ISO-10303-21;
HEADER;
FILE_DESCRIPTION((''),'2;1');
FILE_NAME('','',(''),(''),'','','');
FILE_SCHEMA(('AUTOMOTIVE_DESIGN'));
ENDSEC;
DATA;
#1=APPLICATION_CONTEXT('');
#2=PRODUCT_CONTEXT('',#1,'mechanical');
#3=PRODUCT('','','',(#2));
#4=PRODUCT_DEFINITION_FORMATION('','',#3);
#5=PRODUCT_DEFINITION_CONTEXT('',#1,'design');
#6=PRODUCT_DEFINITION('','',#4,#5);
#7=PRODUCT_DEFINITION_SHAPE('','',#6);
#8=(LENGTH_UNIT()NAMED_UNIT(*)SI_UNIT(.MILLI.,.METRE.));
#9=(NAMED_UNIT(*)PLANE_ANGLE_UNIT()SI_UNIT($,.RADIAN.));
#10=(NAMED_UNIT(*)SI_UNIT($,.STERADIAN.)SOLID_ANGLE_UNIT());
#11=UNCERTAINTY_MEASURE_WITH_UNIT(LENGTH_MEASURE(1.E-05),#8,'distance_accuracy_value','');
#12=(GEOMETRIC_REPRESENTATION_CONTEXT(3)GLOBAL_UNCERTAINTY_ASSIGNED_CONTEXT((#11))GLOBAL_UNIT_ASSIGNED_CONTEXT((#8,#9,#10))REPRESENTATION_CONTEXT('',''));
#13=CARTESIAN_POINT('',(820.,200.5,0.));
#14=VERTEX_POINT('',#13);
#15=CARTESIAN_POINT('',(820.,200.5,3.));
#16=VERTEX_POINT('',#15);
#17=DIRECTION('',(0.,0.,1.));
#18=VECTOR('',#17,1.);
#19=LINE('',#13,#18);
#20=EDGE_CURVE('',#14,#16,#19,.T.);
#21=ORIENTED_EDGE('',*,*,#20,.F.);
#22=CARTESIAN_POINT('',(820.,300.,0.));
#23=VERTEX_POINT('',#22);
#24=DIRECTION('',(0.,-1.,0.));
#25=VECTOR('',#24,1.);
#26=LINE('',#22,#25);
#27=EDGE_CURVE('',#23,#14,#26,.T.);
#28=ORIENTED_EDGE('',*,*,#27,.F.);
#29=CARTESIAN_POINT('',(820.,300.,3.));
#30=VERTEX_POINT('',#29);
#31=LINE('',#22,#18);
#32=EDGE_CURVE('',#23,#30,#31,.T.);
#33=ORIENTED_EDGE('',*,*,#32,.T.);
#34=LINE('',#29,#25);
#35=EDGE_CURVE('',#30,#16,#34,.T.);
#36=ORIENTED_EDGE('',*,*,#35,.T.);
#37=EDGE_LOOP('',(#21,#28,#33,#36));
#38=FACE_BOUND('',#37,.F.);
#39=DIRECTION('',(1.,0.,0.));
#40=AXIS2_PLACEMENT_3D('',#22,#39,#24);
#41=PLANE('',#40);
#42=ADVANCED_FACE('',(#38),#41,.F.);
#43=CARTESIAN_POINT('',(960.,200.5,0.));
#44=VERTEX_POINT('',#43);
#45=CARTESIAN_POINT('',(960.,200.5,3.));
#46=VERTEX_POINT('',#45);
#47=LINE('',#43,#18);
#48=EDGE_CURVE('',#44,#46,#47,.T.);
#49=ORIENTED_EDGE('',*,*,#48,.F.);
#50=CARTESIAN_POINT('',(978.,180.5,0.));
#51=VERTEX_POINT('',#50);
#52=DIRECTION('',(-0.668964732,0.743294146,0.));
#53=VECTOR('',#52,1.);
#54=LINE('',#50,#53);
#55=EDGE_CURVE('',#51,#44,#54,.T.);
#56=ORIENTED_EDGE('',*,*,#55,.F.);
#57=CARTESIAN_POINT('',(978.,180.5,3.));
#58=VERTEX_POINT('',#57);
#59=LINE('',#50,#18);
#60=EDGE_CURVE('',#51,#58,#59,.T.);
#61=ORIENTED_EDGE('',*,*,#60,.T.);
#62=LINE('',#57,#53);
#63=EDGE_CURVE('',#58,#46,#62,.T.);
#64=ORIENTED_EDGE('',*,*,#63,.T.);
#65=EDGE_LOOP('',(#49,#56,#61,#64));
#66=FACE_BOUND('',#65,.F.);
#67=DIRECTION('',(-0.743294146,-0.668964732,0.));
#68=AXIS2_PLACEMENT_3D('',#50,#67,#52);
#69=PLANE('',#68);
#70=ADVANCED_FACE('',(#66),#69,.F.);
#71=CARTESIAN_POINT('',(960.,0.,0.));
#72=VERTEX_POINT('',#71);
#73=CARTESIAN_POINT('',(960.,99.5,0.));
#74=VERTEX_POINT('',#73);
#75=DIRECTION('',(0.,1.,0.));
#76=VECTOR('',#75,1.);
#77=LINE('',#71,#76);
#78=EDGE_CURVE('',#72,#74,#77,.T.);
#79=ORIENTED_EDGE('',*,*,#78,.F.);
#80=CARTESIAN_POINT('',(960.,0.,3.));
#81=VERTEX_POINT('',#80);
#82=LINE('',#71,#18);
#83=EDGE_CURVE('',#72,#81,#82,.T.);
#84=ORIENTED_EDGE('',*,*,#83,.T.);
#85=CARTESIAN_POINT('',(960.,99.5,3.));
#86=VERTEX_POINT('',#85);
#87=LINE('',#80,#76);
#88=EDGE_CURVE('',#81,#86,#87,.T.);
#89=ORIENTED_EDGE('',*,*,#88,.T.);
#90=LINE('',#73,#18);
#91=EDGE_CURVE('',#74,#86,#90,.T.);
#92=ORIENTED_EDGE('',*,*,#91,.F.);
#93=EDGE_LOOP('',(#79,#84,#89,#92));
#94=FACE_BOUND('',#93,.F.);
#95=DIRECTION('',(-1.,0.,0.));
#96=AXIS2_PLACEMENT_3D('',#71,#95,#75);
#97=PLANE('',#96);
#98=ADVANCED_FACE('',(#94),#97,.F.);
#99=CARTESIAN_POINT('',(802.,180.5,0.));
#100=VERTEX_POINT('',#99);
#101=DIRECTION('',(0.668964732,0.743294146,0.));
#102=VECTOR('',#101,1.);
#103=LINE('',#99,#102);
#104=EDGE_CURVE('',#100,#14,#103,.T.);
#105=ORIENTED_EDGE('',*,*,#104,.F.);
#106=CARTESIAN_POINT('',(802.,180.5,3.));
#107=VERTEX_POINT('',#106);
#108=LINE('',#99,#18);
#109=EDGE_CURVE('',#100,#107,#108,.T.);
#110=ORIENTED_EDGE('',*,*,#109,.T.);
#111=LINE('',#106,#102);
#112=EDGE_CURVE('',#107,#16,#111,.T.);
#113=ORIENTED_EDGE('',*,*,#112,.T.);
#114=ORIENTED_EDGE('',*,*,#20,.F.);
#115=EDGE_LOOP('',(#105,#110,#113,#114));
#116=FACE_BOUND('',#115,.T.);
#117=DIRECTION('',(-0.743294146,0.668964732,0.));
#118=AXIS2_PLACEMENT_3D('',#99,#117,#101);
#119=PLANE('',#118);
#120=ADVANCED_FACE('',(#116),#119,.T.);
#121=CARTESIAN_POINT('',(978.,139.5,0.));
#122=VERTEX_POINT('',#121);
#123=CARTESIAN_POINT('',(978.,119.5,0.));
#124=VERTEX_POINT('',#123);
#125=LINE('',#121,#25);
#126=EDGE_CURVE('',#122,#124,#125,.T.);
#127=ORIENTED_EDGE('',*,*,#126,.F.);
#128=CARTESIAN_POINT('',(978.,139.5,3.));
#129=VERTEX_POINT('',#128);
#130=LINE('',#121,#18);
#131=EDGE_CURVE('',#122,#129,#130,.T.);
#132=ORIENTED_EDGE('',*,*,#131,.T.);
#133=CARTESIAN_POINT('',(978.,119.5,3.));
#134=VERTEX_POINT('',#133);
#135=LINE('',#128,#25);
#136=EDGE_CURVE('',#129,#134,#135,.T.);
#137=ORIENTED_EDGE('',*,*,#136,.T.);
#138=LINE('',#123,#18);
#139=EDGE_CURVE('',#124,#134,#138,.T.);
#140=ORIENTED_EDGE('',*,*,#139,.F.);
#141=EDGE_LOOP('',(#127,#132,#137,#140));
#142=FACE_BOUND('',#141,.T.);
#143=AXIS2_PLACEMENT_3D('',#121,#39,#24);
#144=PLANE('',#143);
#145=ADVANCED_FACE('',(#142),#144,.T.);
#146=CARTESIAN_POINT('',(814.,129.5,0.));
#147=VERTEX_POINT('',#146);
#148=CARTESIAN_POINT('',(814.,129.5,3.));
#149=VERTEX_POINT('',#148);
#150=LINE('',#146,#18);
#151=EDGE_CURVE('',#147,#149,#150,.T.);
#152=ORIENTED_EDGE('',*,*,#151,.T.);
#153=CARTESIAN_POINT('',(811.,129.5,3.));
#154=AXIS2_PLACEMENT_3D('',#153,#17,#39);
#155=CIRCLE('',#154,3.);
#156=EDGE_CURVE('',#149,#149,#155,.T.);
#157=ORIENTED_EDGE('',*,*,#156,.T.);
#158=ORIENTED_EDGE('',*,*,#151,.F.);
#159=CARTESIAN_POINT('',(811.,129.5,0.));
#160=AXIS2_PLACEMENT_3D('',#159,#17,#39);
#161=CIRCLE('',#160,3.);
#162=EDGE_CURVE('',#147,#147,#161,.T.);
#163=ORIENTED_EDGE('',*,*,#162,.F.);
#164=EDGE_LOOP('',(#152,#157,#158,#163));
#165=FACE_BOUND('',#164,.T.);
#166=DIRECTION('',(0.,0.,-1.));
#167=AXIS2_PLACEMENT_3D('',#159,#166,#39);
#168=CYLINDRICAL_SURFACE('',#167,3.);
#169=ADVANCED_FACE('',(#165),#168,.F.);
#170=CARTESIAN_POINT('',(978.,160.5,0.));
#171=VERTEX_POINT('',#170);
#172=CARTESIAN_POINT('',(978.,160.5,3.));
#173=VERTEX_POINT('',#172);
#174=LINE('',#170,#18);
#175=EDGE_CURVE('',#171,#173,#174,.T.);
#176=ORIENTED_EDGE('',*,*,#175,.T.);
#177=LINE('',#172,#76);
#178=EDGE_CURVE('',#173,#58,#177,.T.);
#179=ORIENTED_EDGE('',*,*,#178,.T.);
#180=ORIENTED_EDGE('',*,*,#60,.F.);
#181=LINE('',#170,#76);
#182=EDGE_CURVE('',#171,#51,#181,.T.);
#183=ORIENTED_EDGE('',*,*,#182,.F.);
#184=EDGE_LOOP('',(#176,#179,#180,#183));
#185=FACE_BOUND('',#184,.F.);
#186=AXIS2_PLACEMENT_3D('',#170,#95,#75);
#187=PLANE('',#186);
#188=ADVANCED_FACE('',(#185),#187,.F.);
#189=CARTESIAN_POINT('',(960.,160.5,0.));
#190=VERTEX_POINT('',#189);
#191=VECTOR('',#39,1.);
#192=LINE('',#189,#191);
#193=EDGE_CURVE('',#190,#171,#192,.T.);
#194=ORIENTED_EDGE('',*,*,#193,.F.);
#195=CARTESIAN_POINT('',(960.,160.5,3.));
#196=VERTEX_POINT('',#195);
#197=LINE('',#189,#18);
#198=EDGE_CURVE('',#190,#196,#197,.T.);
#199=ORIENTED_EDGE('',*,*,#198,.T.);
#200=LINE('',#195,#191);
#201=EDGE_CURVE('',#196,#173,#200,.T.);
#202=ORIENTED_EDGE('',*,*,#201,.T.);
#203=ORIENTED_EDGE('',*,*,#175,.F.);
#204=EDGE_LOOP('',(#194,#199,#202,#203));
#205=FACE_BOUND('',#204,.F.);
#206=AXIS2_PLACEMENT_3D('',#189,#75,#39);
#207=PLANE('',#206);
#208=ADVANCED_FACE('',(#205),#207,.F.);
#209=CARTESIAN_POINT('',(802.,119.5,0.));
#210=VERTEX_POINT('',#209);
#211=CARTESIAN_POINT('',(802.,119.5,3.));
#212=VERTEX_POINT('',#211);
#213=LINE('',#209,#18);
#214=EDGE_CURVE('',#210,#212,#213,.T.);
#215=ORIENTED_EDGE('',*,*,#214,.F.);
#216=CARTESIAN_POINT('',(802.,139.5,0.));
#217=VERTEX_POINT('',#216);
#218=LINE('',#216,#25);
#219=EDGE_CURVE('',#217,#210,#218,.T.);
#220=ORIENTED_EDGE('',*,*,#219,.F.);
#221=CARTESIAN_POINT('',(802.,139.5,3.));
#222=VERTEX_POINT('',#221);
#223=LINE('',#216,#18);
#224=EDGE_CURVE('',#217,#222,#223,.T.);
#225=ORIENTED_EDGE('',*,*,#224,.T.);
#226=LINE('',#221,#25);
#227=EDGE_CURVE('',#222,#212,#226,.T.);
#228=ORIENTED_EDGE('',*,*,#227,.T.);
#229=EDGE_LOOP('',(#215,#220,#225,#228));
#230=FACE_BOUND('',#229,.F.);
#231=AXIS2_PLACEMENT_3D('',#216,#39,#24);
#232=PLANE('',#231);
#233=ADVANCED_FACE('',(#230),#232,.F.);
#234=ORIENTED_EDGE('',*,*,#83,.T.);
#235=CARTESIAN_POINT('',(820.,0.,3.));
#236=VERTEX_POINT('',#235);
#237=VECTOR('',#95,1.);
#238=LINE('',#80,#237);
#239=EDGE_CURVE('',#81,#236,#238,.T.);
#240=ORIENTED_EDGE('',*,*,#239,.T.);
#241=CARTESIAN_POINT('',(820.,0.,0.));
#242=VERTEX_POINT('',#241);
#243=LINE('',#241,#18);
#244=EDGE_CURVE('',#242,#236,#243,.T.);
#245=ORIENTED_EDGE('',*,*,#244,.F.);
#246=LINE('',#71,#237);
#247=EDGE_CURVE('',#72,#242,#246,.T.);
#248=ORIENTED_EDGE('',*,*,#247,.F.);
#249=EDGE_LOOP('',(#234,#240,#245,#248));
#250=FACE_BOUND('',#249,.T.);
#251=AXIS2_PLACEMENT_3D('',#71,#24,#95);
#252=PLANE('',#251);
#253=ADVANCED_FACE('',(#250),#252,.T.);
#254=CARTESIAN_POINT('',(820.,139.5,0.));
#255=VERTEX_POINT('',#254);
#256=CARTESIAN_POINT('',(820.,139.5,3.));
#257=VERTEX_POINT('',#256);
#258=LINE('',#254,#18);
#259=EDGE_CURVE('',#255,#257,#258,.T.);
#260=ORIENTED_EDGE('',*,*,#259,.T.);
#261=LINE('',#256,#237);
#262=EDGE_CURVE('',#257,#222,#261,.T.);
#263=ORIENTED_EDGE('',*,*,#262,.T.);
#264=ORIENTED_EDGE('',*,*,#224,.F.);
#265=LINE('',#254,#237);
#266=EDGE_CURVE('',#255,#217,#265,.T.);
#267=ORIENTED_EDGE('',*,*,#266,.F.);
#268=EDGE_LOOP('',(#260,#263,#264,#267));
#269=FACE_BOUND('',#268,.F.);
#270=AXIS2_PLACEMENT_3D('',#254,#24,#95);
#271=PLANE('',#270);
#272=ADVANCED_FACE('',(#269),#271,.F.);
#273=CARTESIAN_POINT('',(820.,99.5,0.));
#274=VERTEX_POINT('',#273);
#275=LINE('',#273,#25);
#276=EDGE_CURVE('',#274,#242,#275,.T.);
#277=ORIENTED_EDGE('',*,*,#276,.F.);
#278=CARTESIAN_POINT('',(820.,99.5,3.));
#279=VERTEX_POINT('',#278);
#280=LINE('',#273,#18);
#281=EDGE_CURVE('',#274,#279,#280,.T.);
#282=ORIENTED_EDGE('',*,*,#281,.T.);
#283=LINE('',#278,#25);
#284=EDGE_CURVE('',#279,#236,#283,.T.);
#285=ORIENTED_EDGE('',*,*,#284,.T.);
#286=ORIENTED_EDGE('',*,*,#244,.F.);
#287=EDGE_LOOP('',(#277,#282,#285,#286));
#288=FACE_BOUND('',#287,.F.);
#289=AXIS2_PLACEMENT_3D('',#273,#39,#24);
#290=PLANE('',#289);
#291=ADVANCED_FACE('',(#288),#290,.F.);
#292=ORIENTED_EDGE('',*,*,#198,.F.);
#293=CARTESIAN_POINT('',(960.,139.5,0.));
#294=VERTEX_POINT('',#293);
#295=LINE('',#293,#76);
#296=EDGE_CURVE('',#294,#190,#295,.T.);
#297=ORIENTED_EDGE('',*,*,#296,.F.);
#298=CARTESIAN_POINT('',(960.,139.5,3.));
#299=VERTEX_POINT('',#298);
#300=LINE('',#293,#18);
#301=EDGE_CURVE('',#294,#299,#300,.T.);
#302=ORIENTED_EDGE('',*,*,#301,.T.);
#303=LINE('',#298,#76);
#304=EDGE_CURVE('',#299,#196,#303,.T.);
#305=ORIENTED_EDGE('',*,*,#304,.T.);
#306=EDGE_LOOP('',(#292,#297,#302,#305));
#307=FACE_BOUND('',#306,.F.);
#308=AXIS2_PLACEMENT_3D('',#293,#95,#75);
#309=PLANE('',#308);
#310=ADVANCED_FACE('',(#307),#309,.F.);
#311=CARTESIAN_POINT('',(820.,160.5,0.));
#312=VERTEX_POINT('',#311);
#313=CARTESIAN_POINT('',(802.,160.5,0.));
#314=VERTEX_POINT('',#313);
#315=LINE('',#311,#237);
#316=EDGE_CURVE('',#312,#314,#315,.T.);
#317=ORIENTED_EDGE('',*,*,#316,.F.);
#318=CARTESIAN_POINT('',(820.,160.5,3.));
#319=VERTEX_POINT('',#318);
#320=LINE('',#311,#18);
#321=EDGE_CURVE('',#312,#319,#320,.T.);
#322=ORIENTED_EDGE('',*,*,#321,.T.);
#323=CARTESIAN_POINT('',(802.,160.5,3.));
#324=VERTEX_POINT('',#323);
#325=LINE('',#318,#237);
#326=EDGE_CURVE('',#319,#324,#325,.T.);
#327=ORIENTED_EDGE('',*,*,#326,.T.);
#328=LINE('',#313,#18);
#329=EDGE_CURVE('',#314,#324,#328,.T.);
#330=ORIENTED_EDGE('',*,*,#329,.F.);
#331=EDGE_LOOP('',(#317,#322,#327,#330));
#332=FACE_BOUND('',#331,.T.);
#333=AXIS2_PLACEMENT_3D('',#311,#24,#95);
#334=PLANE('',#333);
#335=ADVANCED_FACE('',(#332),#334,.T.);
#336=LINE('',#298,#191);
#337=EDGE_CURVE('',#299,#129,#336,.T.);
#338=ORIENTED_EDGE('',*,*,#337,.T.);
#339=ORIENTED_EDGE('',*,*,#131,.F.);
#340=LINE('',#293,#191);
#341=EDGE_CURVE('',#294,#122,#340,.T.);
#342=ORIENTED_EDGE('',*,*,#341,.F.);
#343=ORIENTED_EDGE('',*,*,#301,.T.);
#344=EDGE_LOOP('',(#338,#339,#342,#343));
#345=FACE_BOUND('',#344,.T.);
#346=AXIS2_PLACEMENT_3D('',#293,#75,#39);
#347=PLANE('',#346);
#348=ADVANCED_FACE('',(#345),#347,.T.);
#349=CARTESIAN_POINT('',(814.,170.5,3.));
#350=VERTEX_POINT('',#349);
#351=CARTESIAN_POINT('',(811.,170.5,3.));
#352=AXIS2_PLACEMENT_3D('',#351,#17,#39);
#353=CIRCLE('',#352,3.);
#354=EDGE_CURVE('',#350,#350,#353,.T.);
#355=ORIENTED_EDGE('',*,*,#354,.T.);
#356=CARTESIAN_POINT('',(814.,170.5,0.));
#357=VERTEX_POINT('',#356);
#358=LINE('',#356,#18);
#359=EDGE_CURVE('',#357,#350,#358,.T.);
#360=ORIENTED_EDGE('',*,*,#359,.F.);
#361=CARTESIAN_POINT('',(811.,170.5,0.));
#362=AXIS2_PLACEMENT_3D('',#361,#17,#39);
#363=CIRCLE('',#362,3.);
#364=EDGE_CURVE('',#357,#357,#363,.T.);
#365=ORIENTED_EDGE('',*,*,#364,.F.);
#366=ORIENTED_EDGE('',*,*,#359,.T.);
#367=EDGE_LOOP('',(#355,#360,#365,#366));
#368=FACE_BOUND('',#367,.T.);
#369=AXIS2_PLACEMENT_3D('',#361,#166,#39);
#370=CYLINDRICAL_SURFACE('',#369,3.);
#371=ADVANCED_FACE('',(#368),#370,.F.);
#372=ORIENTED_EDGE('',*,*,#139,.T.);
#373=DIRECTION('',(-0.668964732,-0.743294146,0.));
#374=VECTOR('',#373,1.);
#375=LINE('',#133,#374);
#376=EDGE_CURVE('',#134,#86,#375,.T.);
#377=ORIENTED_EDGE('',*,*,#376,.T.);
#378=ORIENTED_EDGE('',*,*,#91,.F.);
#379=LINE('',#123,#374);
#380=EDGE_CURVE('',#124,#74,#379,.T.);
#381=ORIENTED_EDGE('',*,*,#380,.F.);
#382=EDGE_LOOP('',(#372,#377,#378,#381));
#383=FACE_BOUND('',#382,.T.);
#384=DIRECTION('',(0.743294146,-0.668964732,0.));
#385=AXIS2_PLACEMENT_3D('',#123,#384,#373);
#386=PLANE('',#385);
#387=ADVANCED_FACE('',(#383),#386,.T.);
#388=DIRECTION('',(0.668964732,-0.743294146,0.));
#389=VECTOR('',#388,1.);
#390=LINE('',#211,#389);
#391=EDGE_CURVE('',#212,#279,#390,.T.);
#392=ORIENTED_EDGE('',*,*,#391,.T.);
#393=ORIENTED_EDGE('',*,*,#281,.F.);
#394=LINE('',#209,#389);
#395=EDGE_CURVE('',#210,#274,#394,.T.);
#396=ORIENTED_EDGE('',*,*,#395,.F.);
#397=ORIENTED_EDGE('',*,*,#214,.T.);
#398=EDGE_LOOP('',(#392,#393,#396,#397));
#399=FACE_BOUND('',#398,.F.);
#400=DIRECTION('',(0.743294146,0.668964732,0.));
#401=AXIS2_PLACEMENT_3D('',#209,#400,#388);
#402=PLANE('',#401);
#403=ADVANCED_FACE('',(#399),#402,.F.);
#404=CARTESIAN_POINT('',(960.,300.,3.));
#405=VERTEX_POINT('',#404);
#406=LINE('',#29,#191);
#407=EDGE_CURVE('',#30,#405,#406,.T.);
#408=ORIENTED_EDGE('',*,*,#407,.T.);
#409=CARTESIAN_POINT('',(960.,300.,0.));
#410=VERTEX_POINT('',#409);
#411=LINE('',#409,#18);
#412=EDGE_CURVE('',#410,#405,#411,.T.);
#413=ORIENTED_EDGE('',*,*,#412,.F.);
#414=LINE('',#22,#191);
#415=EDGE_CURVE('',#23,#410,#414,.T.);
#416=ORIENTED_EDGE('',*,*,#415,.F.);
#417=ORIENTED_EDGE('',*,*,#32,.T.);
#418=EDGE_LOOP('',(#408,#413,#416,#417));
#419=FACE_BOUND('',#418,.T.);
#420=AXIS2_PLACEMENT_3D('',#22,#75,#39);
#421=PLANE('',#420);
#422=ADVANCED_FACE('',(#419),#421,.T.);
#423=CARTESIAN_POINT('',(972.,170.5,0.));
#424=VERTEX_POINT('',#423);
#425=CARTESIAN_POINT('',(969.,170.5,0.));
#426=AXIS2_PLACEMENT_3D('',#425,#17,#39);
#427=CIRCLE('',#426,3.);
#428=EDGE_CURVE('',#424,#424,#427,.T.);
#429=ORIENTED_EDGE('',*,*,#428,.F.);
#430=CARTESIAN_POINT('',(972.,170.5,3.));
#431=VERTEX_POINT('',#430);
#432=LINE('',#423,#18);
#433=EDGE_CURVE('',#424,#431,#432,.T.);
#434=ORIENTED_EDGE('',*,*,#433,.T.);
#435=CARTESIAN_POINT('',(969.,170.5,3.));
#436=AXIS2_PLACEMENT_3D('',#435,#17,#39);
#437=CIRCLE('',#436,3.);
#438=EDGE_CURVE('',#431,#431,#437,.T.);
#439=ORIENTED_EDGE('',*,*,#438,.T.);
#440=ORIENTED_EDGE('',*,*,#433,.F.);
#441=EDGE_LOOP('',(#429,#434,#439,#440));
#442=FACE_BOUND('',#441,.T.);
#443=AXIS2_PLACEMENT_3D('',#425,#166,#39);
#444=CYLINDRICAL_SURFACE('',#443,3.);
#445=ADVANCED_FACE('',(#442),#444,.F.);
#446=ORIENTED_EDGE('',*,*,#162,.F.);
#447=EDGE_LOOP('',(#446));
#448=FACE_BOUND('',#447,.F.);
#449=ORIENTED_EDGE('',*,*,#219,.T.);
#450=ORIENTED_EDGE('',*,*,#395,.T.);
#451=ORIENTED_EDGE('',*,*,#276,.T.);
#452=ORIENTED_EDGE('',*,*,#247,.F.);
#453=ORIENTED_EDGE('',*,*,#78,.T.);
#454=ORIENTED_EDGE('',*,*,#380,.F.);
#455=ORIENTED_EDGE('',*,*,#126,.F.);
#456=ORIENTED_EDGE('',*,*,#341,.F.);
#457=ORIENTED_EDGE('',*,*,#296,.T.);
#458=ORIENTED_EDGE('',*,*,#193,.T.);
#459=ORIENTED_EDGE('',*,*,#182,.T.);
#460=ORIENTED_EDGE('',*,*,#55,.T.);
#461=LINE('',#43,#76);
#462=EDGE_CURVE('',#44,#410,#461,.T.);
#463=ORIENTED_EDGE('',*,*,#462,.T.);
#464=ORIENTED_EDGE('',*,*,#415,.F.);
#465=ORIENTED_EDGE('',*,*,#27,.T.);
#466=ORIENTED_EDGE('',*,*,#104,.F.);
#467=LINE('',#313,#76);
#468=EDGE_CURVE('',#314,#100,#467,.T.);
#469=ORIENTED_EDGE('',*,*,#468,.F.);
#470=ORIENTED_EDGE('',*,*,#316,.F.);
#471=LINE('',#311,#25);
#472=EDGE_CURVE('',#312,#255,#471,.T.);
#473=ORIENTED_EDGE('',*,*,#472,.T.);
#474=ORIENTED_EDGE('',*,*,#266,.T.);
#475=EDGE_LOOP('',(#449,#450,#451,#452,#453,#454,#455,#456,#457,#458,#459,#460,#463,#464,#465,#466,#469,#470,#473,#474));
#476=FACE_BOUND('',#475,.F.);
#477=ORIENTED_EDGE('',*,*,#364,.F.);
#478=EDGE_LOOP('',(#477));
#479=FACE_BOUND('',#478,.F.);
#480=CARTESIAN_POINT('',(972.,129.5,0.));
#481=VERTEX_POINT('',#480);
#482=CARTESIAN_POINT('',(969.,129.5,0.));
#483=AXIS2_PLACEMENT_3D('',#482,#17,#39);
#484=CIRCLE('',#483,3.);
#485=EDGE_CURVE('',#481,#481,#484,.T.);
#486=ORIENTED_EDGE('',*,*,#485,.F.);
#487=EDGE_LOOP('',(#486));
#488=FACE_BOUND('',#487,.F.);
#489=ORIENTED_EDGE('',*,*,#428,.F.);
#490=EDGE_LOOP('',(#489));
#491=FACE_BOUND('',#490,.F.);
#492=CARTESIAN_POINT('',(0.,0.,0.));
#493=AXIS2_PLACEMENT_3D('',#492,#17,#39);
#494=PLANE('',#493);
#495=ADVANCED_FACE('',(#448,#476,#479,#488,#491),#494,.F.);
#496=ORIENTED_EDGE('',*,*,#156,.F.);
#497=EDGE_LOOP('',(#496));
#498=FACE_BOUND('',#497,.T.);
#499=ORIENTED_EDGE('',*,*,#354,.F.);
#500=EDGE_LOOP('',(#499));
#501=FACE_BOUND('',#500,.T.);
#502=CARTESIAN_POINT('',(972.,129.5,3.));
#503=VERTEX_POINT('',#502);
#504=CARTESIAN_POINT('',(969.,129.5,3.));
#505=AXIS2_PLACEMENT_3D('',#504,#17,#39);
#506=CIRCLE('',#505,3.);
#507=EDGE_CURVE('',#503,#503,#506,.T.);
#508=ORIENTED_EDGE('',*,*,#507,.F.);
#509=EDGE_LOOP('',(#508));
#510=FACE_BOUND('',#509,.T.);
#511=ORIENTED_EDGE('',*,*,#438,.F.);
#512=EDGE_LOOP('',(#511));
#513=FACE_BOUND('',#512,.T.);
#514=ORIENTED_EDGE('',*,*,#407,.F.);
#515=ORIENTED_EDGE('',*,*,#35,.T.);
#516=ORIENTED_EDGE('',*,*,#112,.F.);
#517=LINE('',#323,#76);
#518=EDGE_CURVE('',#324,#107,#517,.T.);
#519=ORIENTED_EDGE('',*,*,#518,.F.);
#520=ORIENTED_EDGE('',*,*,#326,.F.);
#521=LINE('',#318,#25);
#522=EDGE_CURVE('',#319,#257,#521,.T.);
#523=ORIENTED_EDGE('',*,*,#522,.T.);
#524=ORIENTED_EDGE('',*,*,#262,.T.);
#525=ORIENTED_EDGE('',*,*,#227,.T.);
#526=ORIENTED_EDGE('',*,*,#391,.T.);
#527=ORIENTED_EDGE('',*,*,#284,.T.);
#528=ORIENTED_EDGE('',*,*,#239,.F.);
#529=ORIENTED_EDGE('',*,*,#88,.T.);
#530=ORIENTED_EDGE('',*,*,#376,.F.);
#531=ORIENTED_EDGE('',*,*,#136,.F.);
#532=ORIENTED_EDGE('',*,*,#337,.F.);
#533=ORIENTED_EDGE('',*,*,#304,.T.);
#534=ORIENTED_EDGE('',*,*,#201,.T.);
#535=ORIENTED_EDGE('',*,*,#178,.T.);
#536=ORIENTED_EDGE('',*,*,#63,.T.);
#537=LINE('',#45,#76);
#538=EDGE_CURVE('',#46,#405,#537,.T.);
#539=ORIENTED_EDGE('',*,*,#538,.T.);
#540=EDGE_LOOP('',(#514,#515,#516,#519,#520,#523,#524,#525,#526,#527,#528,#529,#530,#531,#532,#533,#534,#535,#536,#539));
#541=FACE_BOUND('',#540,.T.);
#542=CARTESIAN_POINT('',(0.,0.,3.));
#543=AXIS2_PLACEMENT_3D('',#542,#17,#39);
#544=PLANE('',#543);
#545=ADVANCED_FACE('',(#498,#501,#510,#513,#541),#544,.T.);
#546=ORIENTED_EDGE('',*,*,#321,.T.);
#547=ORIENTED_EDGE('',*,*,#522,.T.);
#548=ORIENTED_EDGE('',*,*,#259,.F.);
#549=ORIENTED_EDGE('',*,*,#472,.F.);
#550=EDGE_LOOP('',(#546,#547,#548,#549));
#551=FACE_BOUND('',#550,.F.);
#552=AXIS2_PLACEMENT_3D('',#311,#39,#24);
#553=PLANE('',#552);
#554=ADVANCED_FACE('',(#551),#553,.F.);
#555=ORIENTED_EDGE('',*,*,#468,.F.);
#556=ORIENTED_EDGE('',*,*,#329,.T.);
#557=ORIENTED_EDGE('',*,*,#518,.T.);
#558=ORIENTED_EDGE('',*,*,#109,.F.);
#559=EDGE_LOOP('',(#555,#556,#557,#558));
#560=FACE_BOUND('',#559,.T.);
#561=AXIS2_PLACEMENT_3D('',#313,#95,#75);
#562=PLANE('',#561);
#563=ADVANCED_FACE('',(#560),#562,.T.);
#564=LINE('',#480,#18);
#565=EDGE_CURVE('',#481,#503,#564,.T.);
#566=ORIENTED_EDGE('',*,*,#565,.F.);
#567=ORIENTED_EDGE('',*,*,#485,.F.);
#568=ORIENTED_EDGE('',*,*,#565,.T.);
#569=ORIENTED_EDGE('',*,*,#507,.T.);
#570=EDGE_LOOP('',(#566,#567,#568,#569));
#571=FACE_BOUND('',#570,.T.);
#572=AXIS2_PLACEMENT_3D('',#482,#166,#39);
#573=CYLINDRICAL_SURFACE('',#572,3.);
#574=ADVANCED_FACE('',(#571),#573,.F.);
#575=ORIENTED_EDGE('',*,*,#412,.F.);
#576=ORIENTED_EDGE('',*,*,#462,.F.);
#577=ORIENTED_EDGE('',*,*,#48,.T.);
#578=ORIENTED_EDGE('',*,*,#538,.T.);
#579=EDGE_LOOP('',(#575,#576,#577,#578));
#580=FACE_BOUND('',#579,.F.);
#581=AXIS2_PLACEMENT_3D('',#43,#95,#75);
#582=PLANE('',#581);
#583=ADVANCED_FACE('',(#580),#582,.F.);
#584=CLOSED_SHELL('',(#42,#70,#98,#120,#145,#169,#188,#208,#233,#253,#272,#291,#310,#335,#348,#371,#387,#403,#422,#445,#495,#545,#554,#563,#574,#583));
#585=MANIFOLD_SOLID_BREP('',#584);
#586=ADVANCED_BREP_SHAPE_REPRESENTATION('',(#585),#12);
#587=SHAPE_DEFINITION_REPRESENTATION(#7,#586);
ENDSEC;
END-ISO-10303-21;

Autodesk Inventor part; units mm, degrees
ref_plane "YZ Plane" through (0, 0, 0) normal (1, 0, 0) x (0, 1, 0)
ref_plane "XZ Plane" through (0, 0, 0) normal (0, 1, 0) x (-1, 0, 0)
ref_plane "XY Plane" through (0, 0, 0) normal (0, 0, 1) x (1, 0, 0)
sketch "Sketch1" plane through (0, 0, 0) normal (0, 0, 1) x (1, 0, 0)
  line L0 (0, 0) -> (140, 0)
  line L1 (140, 0) -> (140, 300)
  line L2 (140, 300) -> (0, 300)
  line L3 (0, 300) -> (0, 0)
  line L4 (10, 290) -> (130, 290)
  line L5 (130, 290) -> (130, 10) construction
  line L6 (130, 10) -> (10, 10) construction
  line L7 (10, 10) -> (10, 290) construction
  line L8 (55.013, 210.0189) -> (44.1329, 210.0189) construction
  line L9 (10, 290) -> (130, 290) construction
  line L10 (70, 311.1686) -> (70, 319.6965) construction
  line L11 (64.8975, 210.0189) -> (64.8975, 204.1374) construction
  line L12 (75.1025, 210.0189) -> (75.1025, 204.1374) construction
  spline S0 degree 4 poles (64.8975, 210.0189) (64.8975, 218.5538) (47.6053, 225.9043) (40.8111, 229.8746) (18.3339, 245.7556) (11.7937, 258.2232) (10, 279.3922) (10, 290) knots 0 0 0 0 0 0.284812 0.471394 0.66948 1 1 1 1 1
  line L13 (10, 290) -> (10, 266.9306) construction
  spline S1 degree 4 poles (75.1025, 210.0189) (75.1025, 218.5538) (92.3947, 225.9043) (99.1889, 229.8746) (121.6661, 245.7556) (128.2063, 258.2232) (130, 279.3922) (130, 290) knots 0 0 0 0 0 0.284812 0.471394 0.66948 1 1 1 1 1
  spline S2 degree 4 poles (64.8975, 210.0189) (64.8975, 201.4839) (47.6053, 194.1334) (40.8111, 190.1632) (18.3339, 174.2821) (11.7937, 161.8145) (10, 140.6455) (10, 130.0377) knots 0 0 0 0 0 0.284812 0.471394 0.66948 1 1 1 1 1
  spline S3 degree 4 poles (75.1025, 210.0189) (75.1025, 201.4839) (92.3947, 194.1334) (99.1889, 190.1632) (121.6661, 174.2821) (128.2063, 161.8145) (130, 140.6455) (130, 130.0377) knots 0 0 0 0 0 0.284812 0.471394 0.66948 1 1 1 1 1
  line L14 (10, 130.0377) -> (10, 10)
  line L15 (130, 130.0377) -> (130, 10)
  line L16 (10, 10) -> (130, 10)
  line L17 (240, 186.8124) -> (240, 163.5372) construction
  line L18 (480, 0) -> (340, 0) construction
  line L19 (340, 0) -> (340, 300) construction
  line L20 (340, 300) -> (480, 300) construction
  line L21 (480, 300) -> (480, 0) construction
  line L22 (470, 290) -> (350, 290) construction
  line L23 (350, 290) -> (350, 10) construction
  line L24 (350, 10) -> (470, 10) construction
  line L25 (470, 10) -> (470, 290) construction
  line L26 (424.987, 210.0189) -> (435.8671, 210.0189) construction
  line L27 (470, 290) -> (350, 290) construction
  line L28 (410, 311.1686) -> (410, 319.6965) construction
  line L29 (415.1025, 210.0189) -> (415.1025, 204.1374) construction
  line L30 (404.8975, 210.0189) -> (404.8975, 204.1374) construction
  spline S4 degree 4 poles (415.1025, 210.0189) (415.1025, 218.5538) (432.3947, 225.9043) (439.1889, 229.8746) (461.6661, 245.7556) (468.2063, 258.2232) (470, 279.3922) (470, 290) knots 0 0 0 0 0 0.284812 0.471394 0.66948 1 1 1 1 1 construction
  line L31 (470, 290) -> (470, 266.9306) construction
  spline S5 degree 4 poles (404.8975, 210.0189) (394.814, 224.8509) (381.6315, 227.4313) (352.9317, 245.1456) (350.4567, 267.2032) (350, 290) knots 0 0 0 0 0 0.471394 1 1 1 1 1 construction
  spline S6 degree 4 poles (415.1025, 210.0189) (425.186, 195.1868) (438.3685, 192.6065) (467.0683, 174.8921) (469.5433, 152.8345) (470, 130.0377) knots 0 0 0 0 0 0.471394 1 1 1 1 1 construction
  spline S7 degree 4 poles (404.8975, 210.0189) (394.814, 195.1868) (381.6315, 192.6065) (352.9317, 174.8921) (350.4567, 152.8345) (350, 130.0377) knots 0 0 0 0 0 0.471394 1 1 1 1 1 construction
  line L32 (355, 14.5) -> (355, 130.0377)
  line L33 (355, 130.0377) -> (357, 130.0377)
  line L34 (357, 130.0377) -> (357, 14.5)
  arc A0 (353.5, 13) -> (355, 14.5) centre (353.5, 14.5) ccw
  arc A1 (351, 14.5) -> (352.5, 13) centre (352.5, 14.5) ccw construction
  line L35 (352.5, 13) -> (353.5, 13)
  arc A2 (357, 14.5) -> (358.5, 13) centre (358.5, 14.5) ccw
  line L36 (358.5, 13) -> (359.5, 13)
  line L37 (361, 14.5) -> (361, 130.0377)
  line L38 (363, 130.0377) -> (363, 14.5)
  arc A3 (359.5, 13) -> (361, 14.5) centre (359.5, 14.5) ccw
  line L39 (361, 130.0377) -> (363, 130.0377)
  arc A4 (363, 14.5) -> (364.5, 13) centre (364.5, 14.5) ccw
  line L40 (364.5, 13) -> (365.5, 13)
  line L41 (367, 14.5) -> (367, 130.0377)
  line L42 (369, 130.0377) -> (369, 14.5)
  arc A5 (365.5, 13) -> (367, 14.5) centre (365.5, 14.5) ccw
  line L43 (367, 130.0377) -> (369, 130.0377)
  arc A6 (369, 14.5) -> (370.5, 13) centre (370.5, 14.5) ccw
  line L44 (370.5, 13) -> (371.5, 13)
  line L45 (373, 14.5) -> (373, 130.0377)
  line L46 (375, 130.0377) -> (375, 14.5)
  arc A7 (371.5, 13) -> (373, 14.5) centre (371.5, 14.5) ccw
  line L47 (373, 130.0377) -> (375, 130.0377)
  arc A8 (375, 14.5) -> (376.5, 13) centre (376.5, 14.5) ccw
  line L48 (376.5, 13) -> (377.5, 13)
  line L49 (379, 14.5) -> (379, 130.0377)
  line L50 (381, 130.0377) -> (381, 14.5)
  arc A9 (377.5, 13) -> (379, 14.5) centre (377.5, 14.5) ccw
  line L51 (379, 130.0377) -> (381, 130.0377)
  arc A10 (381, 14.5) -> (382.5, 13) centre (382.5, 14.5) ccw
  line L52 (382.5, 13) -> (383.5, 13)
  line L53 (385, 14.5) -> (385, 130.0377)
  line L54 (387, 130.0377) -> (387, 14.5)
  arc A11 (383.5, 13) -> (385, 14.5) centre (383.5, 14.5) ccw
  line L55 (385, 130.0377) -> (387, 130.0377)
  arc A12 (387, 14.5) -> (388.5, 13) centre (388.5, 14.5) ccw
  line L56 (388.5, 13) -> (389.5, 13)
  line L57 (391, 14.5) -> (391, 130.0377)
  line L58 (393, 130.0377) -> (393, 14.5)
  arc A13 (389.5, 13) -> (391, 14.5) centre (389.5, 14.5) ccw
  line L59 (391, 130.0377) -> (393, 130.0377)
  arc A14 (393, 14.5) -> (394.5, 13) centre (394.5, 14.5) ccw
  line L60 (394.5, 13) -> (395.5, 13)
  line L61 (397, 14.5) -> (397, 130.0377)
  line L62 (399, 130.0377) -> (399, 14.5)
  arc A15 (395.5, 13) -> (397, 14.5) centre (395.5, 14.5) ccw
  line L63 (397, 130.0377) -> (399, 130.0377)
  arc A16 (399, 14.5) -> (400.5, 13) centre (400.5, 14.5) ccw
  line L64 (400.5, 13) -> (401.5, 13)
  line L65 (403, 14.5) -> (403, 130.0377)
  line L66 (405, 130.0377) -> (405, 14.5)
  arc A17 (401.5, 13) -> (403, 14.5) centre (401.5, 14.5) ccw
  line L67 (403, 130.0377) -> (405, 130.0377)
  arc A18 (405, 14.5) -> (406.5, 13) centre (406.5, 14.5) ccw
  line L68 (406.5, 13) -> (407.5, 13)
  line L69 (409, 14.5) -> (409, 130.0377)
  line L70 (411, 130.0377) -> (411, 14.5)
  arc A19 (407.5, 13) -> (409, 14.5) centre (407.5, 14.5) ccw
  line L71 (409, 130.0377) -> (411, 130.0377)
  arc A20 (411, 14.5) -> (412.5, 13) centre (412.5, 14.5) ccw
  line L72 (412.5, 13) -> (413.5, 13)
  line L73 (415, 14.5) -> (415, 130.0377)
  line L74 (417, 130.0377) -> (417, 14.5)
  arc A21 (413.5, 13) -> (415, 14.5) centre (413.5, 14.5) ccw
  line L75 (415, 130.0377) -> (417, 130.0377)
  arc A22 (417, 14.5) -> (418.5, 13) centre (418.5, 14.5) ccw
  line L76 (418.5, 13) -> (419.5, 13)
  line L77 (421, 14.5) -> (421, 130.0377)
  line L78 (423, 130.0377) -> (423, 14.5)
  arc A23 (419.5, 13) -> (421, 14.5) centre (419.5, 14.5) ccw
  line L79 (421, 130.0377) -> (423, 130.0377)
  arc A24 (423, 14.5) -> (424.5, 13) centre (424.5, 14.5) ccw
  line L80 (424.5, 13) -> (425.5, 13)
  line L81 (427, 14.5) -> (427, 130.0377)
  line L82 (429, 130.0377) -> (429, 14.5)
  arc A25 (425.5, 13) -> (427, 14.5) centre (425.5, 14.5) ccw
  line L83 (427, 130.0377) -> (429, 130.0377)
  arc A26 (429, 14.5) -> (430.5, 13) centre (430.5, 14.5) ccw
  line L84 (430.5, 13) -> (431.5, 13)
  line L85 (433, 14.5) -> (433, 130.0377)
  line L86 (435, 130.0377) -> (435, 14.5)
  arc A27 (431.5, 13) -> (433, 14.5) centre (431.5, 14.5) ccw
  line L87 (433, 130.0377) -> (435, 130.0377)
  arc A28 (435, 14.5) -> (436.5, 13) centre (436.5, 14.5) ccw
  line L88 (436.5, 13) -> (437.5, 13)
  line L89 (439, 14.5) -> (439, 130.0377)
  line L90 (441, 130.0377) -> (441, 14.5)
  arc A29 (437.5, 13) -> (439, 14.5) centre (437.5, 14.5) ccw
  line L91 (439, 130.0377) -> (441, 130.0377)
  arc A30 (441, 14.5) -> (442.5, 13) centre (442.5, 14.5) ccw
  line L92 (442.5, 13) -> (443.5, 13)
  line L93 (445, 14.5) -> (445, 130.0377)
  line L94 (447, 130.0377) -> (447, 14.5)
  arc A31 (443.5, 13) -> (445, 14.5) centre (443.5, 14.5) ccw
  line L95 (445, 130.0377) -> (447, 130.0377)
  arc A32 (447, 14.5) -> (448.5, 13) centre (448.5, 14.5) ccw
  line L96 (448.5, 13) -> (449.5, 13)
  line L97 (451, 14.5) -> (451, 130.0377)
  line L98 (453, 130.0377) -> (453, 14.5)
  arc A33 (449.5, 13) -> (451, 14.5) centre (449.5, 14.5) ccw
  line L99 (451, 130.0377) -> (453, 130.0377)
  arc A34 (453, 14.5) -> (454.5, 13) centre (454.5, 14.5) ccw
  line L100 (454.5, 13) -> (455.5, 13)
  line L101 (457, 14.5) -> (457, 130.0377)
  line L102 (459, 130.0377) -> (459, 14.5)
  arc A35 (455.5, 13) -> (457, 14.5) centre (455.5, 14.5) ccw
  line L103 (457, 130.0377) -> (459, 130.0377)
  arc A36 (459, 14.5) -> (460.5, 13) centre (460.5, 14.5) ccw
  line L104 (460.5, 13) -> (461.5, 13)
  line L105 (463, 14.5) -> (463, 130.0377)
  line L106 (465, 130.0377) -> (465, 14.5)
  arc A37 (461.5, 13) -> (463, 14.5) centre (461.5, 14.5) ccw
  line L107 (463, 130.0377) -> (465, 130.0377)
  arc A38 (465, 14.5) -> (466.5, 13) centre (466.5, 14.5) ccw
  line L108 (466.5, 13) -> (470, 13)
  line L109 (470, 10) -> (470, 13)
  line L110 (470, 10) -> (350, 10)
  line L111 (350, 10) -> (350, 13)
  line L112 (352.5, 13) -> (350, 13)
  line L113 (740, 300) -> (600, 300)
  line L114 (610, 290) -> (730, 290) construction
  line L115 (610, 290) -> (730, 290) construction
  spline S8 degree 4 poles (675.1025, 210.0189) (675.1025, 218.5538) (692.3947, 225.9043) (699.1889, 229.8746) (721.6661, 245.7556) (728.2063, 258.2232) (730, 279.3922) (730, 290) knots 0 0 0 0 0 0.284812 0.471394 0.66948 1 1 1 1 1 construction
  line L116 (664.8975, 210.0189) -> (664.8975, 204.1374) construction
  line L117 (610, 290) -> (610, 266.9306) construction
  spline S9 degree 4 poles (664.8975, 210.0189) (664.8975, 218.5538) (647.6053, 225.9043) (640.8111, 229.8746) (618.3339, 245.7556) (611.7937, 258.2232) (610, 279.3922) (610, 290) knots 0 0 0 0 0 0.284812 0.471394 0.66948 1 1 1 1 1 construction
  line L118 (675.1025, 210.0189) -> (675.1025, 204.1374) construction
  spline S10 degree 4 poles (675.1025, 210.0189) (675.1025, 201.4839) (692.3947, 194.1334) (699.1889, 190.1632) (721.6661, 174.2821) (728.2063, 161.8145) (730, 140.6455) (730, 130.0377) knots 0 0 0 0 0 0.284812 0.471394 0.66948 1 1 1 1 1 construction
  spline S11 degree 4 poles (664.8975, 210.0189) (664.8975, 201.4839) (647.6053, 194.1334) (640.8111, 190.1632) (618.3339, 174.2821) (611.7937, 161.8145) (610, 140.6455) (610, 130.0377) knots 0 0 0 0 0 0.284812 0.471394 0.66948 1 1 1 1 1 construction
  line L119 (730, 290) -> (730, 10) construction
  line L120 (610, 10) -> (610, 290) construction
  line L121 (740, 0) -> (740, 300)
  line L122 (600, 300) -> (600, 0)
  line L123 (610, 130.0377) -> (610, 10) construction
  line L124 (730, 10) -> (610, 10) construction
  line L125 (610, 10) -> (730, 10) construction
  line L126 (730, 130.0377) -> (730, 10) construction
  line L127 (600, 0) -> (740, 0)
  circle A39 centre (670, 187.6403) radius 1.45
  line L128 (661.5147, 179.155) -> (670, 187.6403) construction
  line L129 (670, 187.6403) -> (661.5147, 179.155) construction
  line L130 (661.5147, 179.155) -> (678.4853, 179.155) construction
  line L131 (130, 290) -> (130, 293.3347) construction
  line L132 (730, 290) -> (730, 294.5645) construction
  line L133 (670, 187.6403) -> (667.2579, 190.3824) construction
  line L134 (661.5147, 179.155) -> (658.7726, 181.8971) construction
  circle A40 centre (661.5147, 179.155) radius 1.45
  circle A41 centre (653.0294, 170.6697) radius 1.45
  circle A42 centre (644.5442, 162.1844) radius 1.45
  circle A43 centre (636.0589, 153.6991) radius 1.45
  circle A44 centre (627.5736, 145.2139) radius 1.45
  circle A45 centre (619.0883, 136.7286) radius 1.45
  circle A46 centre (619.0883, 153.6991) radius 1.45
  circle A47 centre (627.5736, 162.1844) radius 1.45
  circle A48 centre (636.0589, 170.6697) radius 1.45
  circle A49 centre (644.5442, 179.155) radius 1.45
  circle A50 centre (653.0294, 187.6403) radius 1.45
  circle A51 centre (686.9706, 187.6403) radius 1.45
  circle A52 centre (678.4853, 179.155) radius 1.45
  circle A53 centre (670, 170.6697) radius 1.45
  circle A54 centre (661.5147, 162.1844) radius 1.45
  circle A55 centre (653.0294, 153.6991) radius 1.45
  circle A56 centre (644.5442, 145.2139) radius 1.45
  circle A57 centre (636.0589, 136.7286) radius 1.45
  circle A58 centre (695.4558, 179.155) radius 1.45
  circle A59 centre (686.9706, 170.6697) radius 1.45
  circle A60 centre (670, 170.6697) radius 1.45
  circle A61 centre (661.5147, 162.1844) radius 1.45
  circle A62 centre (678.4853, 162.1844) radius 1.45
  circle A63 centre (653.0294, 153.6991) radius 1.45
  circle A64 centre (670, 153.6991) radius 1.45
  circle A65 centre (661.5147, 145.2139) radius 1.45
  circle A66 centre (644.5442, 145.2139) radius 1.45
  circle A67 centre (636.0589, 136.7286) radius 1.45
  circle A68 centre (653.0294, 136.7286) radius 1.45
  circle A69 centre (695.4558, 162.1844) radius 1.45
  circle A70 centre (686.9706, 153.6991) radius 1.45
  circle A71 centre (678.4853, 145.2139) radius 1.45
  circle A72 centre (670, 136.7286) radius 1.45
  circle A73 centre (712.4264, 162.1844) radius 1.45
  circle A74 centre (703.9411, 153.6991) radius 1.45
  circle A75 centre (695.4558, 145.2139) radius 1.45
  circle A76 centre (686.9706, 136.7286) radius 1.45
  circle A77 centre (703.9411, 170.6697) radius 1.45
  circle A78 centre (720.9117, 153.6991) radius 1.45
  circle A79 centre (712.4264, 145.2139) radius 1.45
  circle A80 centre (703.9411, 136.7286) radius 1.45
  circle A81 centre (720.9117, 136.7286) radius 1.45
  line L135 (0, 160.5) -> (-18, 160.5)
  line L136 (-18, 160.5) -> (-18, 180.5)
  line L137 (-18, 180.5) -> (0, 180.5) construction
  line L138 (0, 180.5) -> (0, 160.5)
  line L139 (-24.3067, 150) -> (-34.4998, 150) construction
  circle A82 centre (-9, 170.5) radius 3
  line L140 (-18, 180.5) -> (0, 200.5)
  line L141 (0, 139.5) -> (-18, 139.5)
  line L142 (-18, 139.5) -> (-18, 119.5)
  circle A83 centre (-9, 129.5) radius 3
  line L143 (-18, 119.5) -> (0, 99.5)
  line L144 (140, 160.5) -> (158, 160.5)
  line L145 (158, 160.5) -> (158, 180.5)
  circle A84 centre (149, 170.5) radius 3
  line L146 (158, 180.5) -> (140, 200.5)
  line L147 (158, 139.5) -> (158, 119.5)
  line L148 (140, 139.5) -> (158, 139.5)
  circle A85 centre (149, 129.5) radius 3
  line L149 (158, 119.5) -> (140, 99.5)
  line L150 (582, 180.5) -> (600, 200.5)
  line L151 (582, 160.5) -> (582, 180.5)
  circle A86 centre (591, 170.5) radius 3
  line L152 (600, 139.5) -> (582, 139.5)
  circle A87 centre (591, 129.5) radius 3
  line L153 (582, 139.5) -> (582, 119.5)
  line L154 (582, 119.5) -> (600, 99.5)
  line L155 (758, 180.5) -> (740, 200.5)
  line L156 (758, 160.5) -> (758, 180.5)
  circle A88 centre (749, 170.5) radius 3
  line L157 (740, 160.5) -> (758, 160.5)
  line L158 (740, 139.5) -> (758, 139.5)
  circle A89 centre (749, 129.5) radius 3
  line L159 (758, 139.5) -> (758, 119.5)
  line L160 (758, 119.5) -> (740, 99.5)
  line L161 (600, 160.5) -> (582, 160.5)
  line L162 (600, 200.5) -> (600, 300)
  line L163 (600, 300) -> (740, 300)
  line L164 (740, 300) -> (740, 200.5)
  line L165 (740, 160.5) -> (740, 139.5)
  line L166 (740, 99.5) -> (740, 0)
  line L167 (740, 0) -> (600, 0)
  line L168 (600, 0) -> (600, 99.5)
  line L169 (600, 139.5) -> (600, 160.5)
  line L170 (780, 153.6991) -> (780, 161.6118) construction
  line L171 (820, 300) -> (960, 300)
  line L172 (960, 0) -> (820, 0)
  line L173 (978, 180.5) -> (960, 200.5)
  line L174 (978, 160.5) -> (978, 180.5)
  circle A90 centre (969, 170.5) radius 3
  line L175 (960, 139.5) -> (978, 139.5)
  circle A91 centre (969, 129.5) radius 3
  line L176 (978, 139.5) -> (978, 119.5)
  line L177 (978, 119.5) -> (960, 99.5)
  line L178 (802, 180.5) -> (820, 200.5)
  line L179 (802, 160.5) -> (802, 180.5)
  circle A92 centre (811, 170.5) radius 3
  line L180 (820, 160.5) -> (802, 160.5)
  line L181 (820, 139.5) -> (802, 139.5)
  circle A93 centre (811, 129.5) radius 3
  line L182 (802, 139.5) -> (802, 119.5)
  line L183 (802, 119.5) -> (820, 99.5)
  line L184 (960, 160.5) -> (978, 160.5)
  line L185 (960, 200.5) -> (960, 300)
  line L186 (960, 300) -> (820, 300)
  line L187 (820, 300) -> (820, 200.5)
  line L188 (820, 160.5) -> (820, 139.5)
  line L189 (820, 99.5) -> (820, 0)
  line L190 (820, 0) -> (960, 0)
  line L191 (960, 0) -> (960, 99.5)
  line L192 (960, 139.5) -> (960, 160.5)
  line L193 (582, -180.5) -> (582, -200.5) construction
  circle A94 centre (591, -190.5) radius 3 construction
  line L194 (600, -159.5) -> (582, -159.5) construction
  line L195 (600, -180.5) -> (582, -180.5) construction
  line L196 (582, -200.5) -> (600, -220.5) construction
  line L197 (582, -139.5) -> (600, -119.5) construction
  line L198 (582, -159.5) -> (582, -139.5) construction
  circle A95 centre (591, -149.5) radius 3 construction
  circle A96 centre (619.0883, -166.3009) radius 1.45 construction
  circle A97 centre (627.5736, -174.7861) radius 1.45 construction
  circle A98 centre (644.5442, -157.8156) radius 1.45 construction
  circle A99 centre (627.5736, -157.8156) radius 1.45 construction
  circle A100 centre (644.5442, -174.7861) radius 1.45 construction
  circle A101 centre (636.0589, -183.2714) radius 1.45 construction
  line L199 (600, -180.5) -> (600, -159.5) construction
  circle A102 centre (636.0589, -183.2714) radius 1.45 construction
  circle A103 centre (644.5442, -174.7861) radius 1.45 construction
  circle A104 centre (619.0883, -183.2714) radius 1.45 construction
  circle A105 centre (636.0589, -166.3009) radius 1.45 construction
  circle A106 centre (653.0294, -183.2714) radius 1.45 construction
  circle A107 centre (661.5147, -174.7861) radius 1.45 construction
  line L200 (664.8975, -109.9811) -> (664.8975, -115.8626) construction
  line L201 (610, -30) -> (610, -53.0694) construction
  spline S12 degree 4 poles (664.8975, -109.9811) (664.8975, -118.5161) (647.6053, -125.8666) (640.8111, -129.8368) (618.3339, -145.7179) (611.7937, -158.1855) (610, -179.3545) (610, -189.9623) knots 0 0 0 0 0 0.284812 0.471394 0.66948 1 1 1 1 1 construction
  circle A108 centre (670, -149.3303) radius 1.45 construction
  circle A109 centre (678.4853, -140.845) radius 1.45 construction
  circle A110 centre (686.9706, -166.3009) radius 1.45 construction
  circle A111 centre (670, -166.3009) radius 1.45 construction
  circle A112 centre (653.0294, -166.3009) radius 1.45 construction
  circle A113 centre (653.0294, -166.3009) radius 1.45 construction
  spline S13 degree 4 poles (664.8975, -109.9811) (664.8975, -101.4462) (647.6053, -94.0957) (640.8111, -90.1254) (618.3339, -74.2444) (611.7937, -61.7768) (610, -40.6078) (610, -30) knots 0 0 0 0 0 0.284812 0.471394 0.66948 1 1 1 1 1 construction
  circle A114 centre (670, -132.3597) radius 1.45 construction
  circle A115 centre (636.0589, -149.3303) radius 1.45 construction
  circle A116 centre (653.0294, -149.3303) radius 1.45 construction
  circle A117 centre (644.5442, -140.845) radius 1.45 construction
  circle A118 centre (653.0294, -132.3597) radius 1.45 construction
  line L202 (661.5147, -140.845) -> (658.7726, -138.1029) construction
  line L203 (661.5147, -140.845) -> (670, -132.3597) construction
  line L204 (670, -132.3597) -> (661.5147, -140.845) construction
  line L205 (670, -132.3597) -> (667.2579, -129.6176) construction
  line L206 (661.5147, -140.845) -> (678.4853, -140.845) construction
  circle A119 centre (686.9706, -132.3597) radius 1.45 construction
  line L207 (600, -119.5) -> (600, -20) construction
  line L208 (600, -20) -> (740, -20) construction
  line L209 (730, -30) -> (730, -25.4355) construction
  line L210 (740, -20) -> (740, -119.5) construction
  circle A120 centre (661.5147, -140.845) radius 1.45 construction
  line L211 (610, -189.9623) -> (610, -310) construction
  line L212 (600, -320) -> (600, -220.5) construction
  line L213 (730, -310) -> (610, -310) construction
  line L214 (610, -310) -> (730, -310) construction
  line L215 (600, -320) -> (740, -320) construction
  line L216 (740, -320) -> (600, -320) construction
  line L217 (730, -189.9623) -> (730, -310) construction
  line L218 (740, -220.5) -> (740, -320) construction
  line L219 (740, -20) -> (600, -20) construction
  line L220 (675.1025, -109.9811) -> (675.1025, -115.8626) construction
  line L221 (610, -30) -> (730, -30) construction
  line L222 (610, -30) -> (730, -30) construction
  spline S14 degree 4 poles (675.1025, -109.9811) (675.1025, -101.4462) (692.3947, -94.0957) (699.1889, -90.1254) (721.6661, -74.2444) (728.2063, -61.7768) (730, -40.6078) (730, -30) knots 0 0 0 0 0 0.284812 0.471394 0.66948 1 1 1 1 1 construction
  line L223 (610, -310) -> (610, -30) construction
  line L224 (600, -20) -> (600, -320) construction
  line L225 (740, -320) -> (740, -20) construction
  line L226 (730, -30) -> (730, -310) construction
  circle A121 centre (678.4853, -174.7861) radius 1.45 construction
  circle A122 centre (670, -183.2714) radius 1.45 construction
  spline S15 degree 4 poles (675.1025, -109.9811) (675.1025, -118.5161) (692.3947, -125.8666) (699.1889, -129.8368) (721.6661, -145.7179) (728.2063, -158.1855) (730, -179.3545) (730, -189.9623) knots 0 0 0 0 0 0.284812 0.471394 0.66948 1 1 1 1 1 construction
  circle A123 centre (686.9706, -183.2714) radius 1.45 construction
  circle A124 centre (670, -149.3303) radius 1.45 construction
  circle A125 centre (661.5147, -157.8156) radius 1.45 construction
  circle A126 centre (695.4558, -140.845) radius 1.45 construction
  circle A127 centre (686.9706, -149.3303) radius 1.45 construction
  circle A128 centre (678.4853, -157.8156) radius 1.45 construction
  circle A129 centre (703.9411, -149.3303) radius 1.45 construction
  line L227 (758, -139.5) -> (740, -119.5) construction
  circle A130 centre (749, -149.5) radius 3 construction
  line L228 (758, -159.5) -> (758, -139.5) construction
  circle A131 centre (661.5147, -157.8156) radius 1.45 construction
  circle A132 centre (703.9411, -183.2714) radius 1.45 construction
  circle A133 centre (712.4264, -174.7861) radius 1.45 construction
  circle A134 centre (720.9117, -183.2714) radius 1.45 construction
  circle A135 centre (695.4558, -174.7861) radius 1.45 construction
  line L229 (740, -159.5) -> (740, -180.5) construction
  line L230 (758, -200.5) -> (740, -220.5) construction
  circle A136 centre (749, -190.5) radius 3 construction
  line L231 (758, -180.5) -> (758, -200.5) construction
  line L232 (740, -180.5) -> (758, -180.5) construction
  line L233 (740, -159.5) -> (758, -159.5) construction
  circle A137 centre (720.9117, -166.3009) radius 1.45 construction
  circle A138 centre (703.9411, -166.3009) radius 1.45 construction
  circle A139 centre (695.4558, -157.8156) radius 1.45 construction
  circle A140 centre (712.4264, -157.8156) radius 1.45 construction
  line L234 (600, -122.3597) -> (740, -122.3597)
  line L235 (740, -122.3597) -> (740, -193.2714)
  line L236 (740, -193.2714) -> (600, -193.2714)
  line L237 (600, -193.2714) -> (600, -122.3597)
  point P0 (70, 290)
  point P1 (70, 300)
  point P2 (10, 150)
  point P3 (0, 150)
  point P4 (70, 290)
  point P5 (70, 315.4325)
  point P6 (49.5729, 210.0189)
  point P7 (49.5729, 225.4245)
  point P8 (37.5413, 232.3974)
  point P9 (24.0774, 242.8841)
  point P10 (14.2457, 257.8533)
  point P11 (90.4271, 225.4245)
  point P12 (102.4587, 232.3974)
  point P13 (115.9226, 242.8841)
  point P14 (125.7543, 257.8533)
  point P15 (49.5729, 194.6132)
  point P16 (37.5413, 187.6403)
  point P17 (24.0774, 177.1536)
  point P18 (14.2457, 162.1844)
  point P19 (90.4271, 194.6132)
  point P20 (102.4587, 187.6403)
  point P21 (115.9226, 177.1536)
  point P22 (125.7543, 162.1844)
  point P23 (410, 290)
  point P24 (410, 300)
  point P25 (470, 150)
  point P26 (480, 150)
  point P27 (410, 290)
  point P28 (410, 315.4325)
  point P29 (430.4271, 210.0189)
  point P30 (430.4271, 225.4245)
  point P31 (442.4587, 232.3974)
  point P32 (455.9226, 242.8841)
  point P33 (465.7543, 257.8533)
  point P34 (389.5729, 225.4245)
  point P35 (377.5413, 232.3974)
  point P36 (364.0774, 242.8841)
  point P37 (354.2457, 257.8533)
  point P38 (430.4271, 194.6132)
  point P39 (442.4587, 187.6403)
  point P40 (455.9226, 177.1536)
  point P41 (465.7543, 162.1844)
  point P42 (389.5729, 194.6132)
  point P43 (377.5413, 187.6403)
  point P44 (364.0774, 177.1536)
  point P45 (354.2457, 162.1844)
  point P46 (356, 130.0377)
  point P47 (362, 130.0377)
  point P48 (368, 130.0377)
  point P49 (374, 130.0377)
  point P50 (380, 130.0377)
  point P51 (386, 130.0377)
  point P52 (392, 130.0377)
  point P53 (398, 130.0377)
  point P54 (404, 130.0377)
  point P55 (410, 130.0377)
  point P56 (416, 130.0377)
  point P57 (422, 130.0377)
  point P58 (428, 130.0377)
  point P59 (434, 130.0377)
  point P60 (440, 130.0377)
  point P61 (446, 130.0377)
  point P62 (452, 130.0377)
  point P63 (458, 130.0377)
  point P64 (464, 130.0377)
  point P65 (410, 130.0377)
  point P66 (410, 315.4325)
  point P67 (670, 300)
  point P68 (670, 290)
  point P69 (670, 290)
  point P70 (690.4271, 225.4245)
  point P71 (702.4587, 232.3974)
  point P72 (715.9226, 242.8841)
  point P73 (725.7543, 257.8533)
  point P74 (649.5729, 225.4245)
  point P75 (637.5413, 232.3974)
  point P76 (624.0774, 242.8841)
  point P77 (614.2457, 257.8533)
  point P78 (690.4271, 194.6132)
  point P79 (649.5729, 194.6132)
  point P80 (702.4587, 187.6403)
  point P81 (637.5413, 187.6403)
  point P82 (715.9226, 177.1536)
  point P83 (624.0774, 177.1536)
  point P84 (614.2457, 162.1844)
  point P85 (725.7543, 162.1844)
  point P86 (610, 150)
  point P87 (600, 150)
  point P88 (670, 179.155)
  point P89 (670, 300)
  point P90 (-29.4032, 150)
  point P91 (-18, 170.5)
  point P92 (-9, 180.5)
  point P93 (582, 170.5)
  point P94 (890, 300)
  point P95 (960, 150)
  point P96 (890, 300)
  point P97 (978, 170.5)
  point P98 (582, -149.5)
  point P99 (600, -170)
  point P100 (670, -30)
  point P101 (670, -30)
  point P102 (670, -20)
  point P103 (637.5413, -132.3597)
  point P104 (624.0774, -142.8464)
  point P105 (614.2457, -157.8156)
  point P106 (649.5729, -125.3868)
  point P107 (610, -170)
  point P108 (670, -140.845)
  point P109 (649.5729, -94.5755)
  point P110 (637.5413, -87.6026)
  point P111 (624.0774, -77.1159)
  point P112 (614.2457, -62.1467)
  point P113 (670, -20)
  point P114 (690.4271, -94.5755)
  point P115 (702.4587, -87.6026)
  point P116 (725.7543, -62.1467)
  point P117 (702.4587, -132.3597)
  point P118 (715.9226, -77.1159)
  point P119 (690.4271, -125.3868)
  point P120 (715.9226, -142.8464)
  point P121 (725.7543, -157.8156)
  dimension "d0" = 140
  dimension "d1" = 300
  dimension "d2" = 10
  dimension "d3" = 10
  dimension "d5" = 100
  dimension "d6" = 2
  dimension "d9" = 79.9811
  dimension "d12" = 1.5
  dimension "d13" = 1.5
  dimension "d15" = 4
  dimension "d18" = 6
  dimension "d23" = 3
  dimension "d26" = 600
  dimension "d33" = 2.9
  dimension "d34" = 45
  dimension "d35" = 12
  dimension "d38" = 12
  dimension "d45" = 16.9706
  dimension "d52" = 16.9706
  dimension "d59" = 16.9706
  dimension "d66" = 16.9706
  dimension "d73" = 16.9706
  dimension "d80" = 16.9706
  dimension "d85" = 18
  dimension "d86" = 20
  dimension "d87" = 10.5
  dimension "d88" = 6
  dimension "d89" = 20
  dimension "d92" = 600
  dimension "d97" = 10.2051
  dimension "d98" = 40
  dimension "d101" = 320
  dimension "d106" = 10
  dimension "d107" = 10
extrude "Extrusion1" add sketch "Sketch1" along normal blind 3 contours L171 L185 L173 L174 L184 L192 L175 L176 L177 L191 L172 L189 L183 L182 L181 L188 L180 L179 L178 L187
properties part number "SGB-1-front"
